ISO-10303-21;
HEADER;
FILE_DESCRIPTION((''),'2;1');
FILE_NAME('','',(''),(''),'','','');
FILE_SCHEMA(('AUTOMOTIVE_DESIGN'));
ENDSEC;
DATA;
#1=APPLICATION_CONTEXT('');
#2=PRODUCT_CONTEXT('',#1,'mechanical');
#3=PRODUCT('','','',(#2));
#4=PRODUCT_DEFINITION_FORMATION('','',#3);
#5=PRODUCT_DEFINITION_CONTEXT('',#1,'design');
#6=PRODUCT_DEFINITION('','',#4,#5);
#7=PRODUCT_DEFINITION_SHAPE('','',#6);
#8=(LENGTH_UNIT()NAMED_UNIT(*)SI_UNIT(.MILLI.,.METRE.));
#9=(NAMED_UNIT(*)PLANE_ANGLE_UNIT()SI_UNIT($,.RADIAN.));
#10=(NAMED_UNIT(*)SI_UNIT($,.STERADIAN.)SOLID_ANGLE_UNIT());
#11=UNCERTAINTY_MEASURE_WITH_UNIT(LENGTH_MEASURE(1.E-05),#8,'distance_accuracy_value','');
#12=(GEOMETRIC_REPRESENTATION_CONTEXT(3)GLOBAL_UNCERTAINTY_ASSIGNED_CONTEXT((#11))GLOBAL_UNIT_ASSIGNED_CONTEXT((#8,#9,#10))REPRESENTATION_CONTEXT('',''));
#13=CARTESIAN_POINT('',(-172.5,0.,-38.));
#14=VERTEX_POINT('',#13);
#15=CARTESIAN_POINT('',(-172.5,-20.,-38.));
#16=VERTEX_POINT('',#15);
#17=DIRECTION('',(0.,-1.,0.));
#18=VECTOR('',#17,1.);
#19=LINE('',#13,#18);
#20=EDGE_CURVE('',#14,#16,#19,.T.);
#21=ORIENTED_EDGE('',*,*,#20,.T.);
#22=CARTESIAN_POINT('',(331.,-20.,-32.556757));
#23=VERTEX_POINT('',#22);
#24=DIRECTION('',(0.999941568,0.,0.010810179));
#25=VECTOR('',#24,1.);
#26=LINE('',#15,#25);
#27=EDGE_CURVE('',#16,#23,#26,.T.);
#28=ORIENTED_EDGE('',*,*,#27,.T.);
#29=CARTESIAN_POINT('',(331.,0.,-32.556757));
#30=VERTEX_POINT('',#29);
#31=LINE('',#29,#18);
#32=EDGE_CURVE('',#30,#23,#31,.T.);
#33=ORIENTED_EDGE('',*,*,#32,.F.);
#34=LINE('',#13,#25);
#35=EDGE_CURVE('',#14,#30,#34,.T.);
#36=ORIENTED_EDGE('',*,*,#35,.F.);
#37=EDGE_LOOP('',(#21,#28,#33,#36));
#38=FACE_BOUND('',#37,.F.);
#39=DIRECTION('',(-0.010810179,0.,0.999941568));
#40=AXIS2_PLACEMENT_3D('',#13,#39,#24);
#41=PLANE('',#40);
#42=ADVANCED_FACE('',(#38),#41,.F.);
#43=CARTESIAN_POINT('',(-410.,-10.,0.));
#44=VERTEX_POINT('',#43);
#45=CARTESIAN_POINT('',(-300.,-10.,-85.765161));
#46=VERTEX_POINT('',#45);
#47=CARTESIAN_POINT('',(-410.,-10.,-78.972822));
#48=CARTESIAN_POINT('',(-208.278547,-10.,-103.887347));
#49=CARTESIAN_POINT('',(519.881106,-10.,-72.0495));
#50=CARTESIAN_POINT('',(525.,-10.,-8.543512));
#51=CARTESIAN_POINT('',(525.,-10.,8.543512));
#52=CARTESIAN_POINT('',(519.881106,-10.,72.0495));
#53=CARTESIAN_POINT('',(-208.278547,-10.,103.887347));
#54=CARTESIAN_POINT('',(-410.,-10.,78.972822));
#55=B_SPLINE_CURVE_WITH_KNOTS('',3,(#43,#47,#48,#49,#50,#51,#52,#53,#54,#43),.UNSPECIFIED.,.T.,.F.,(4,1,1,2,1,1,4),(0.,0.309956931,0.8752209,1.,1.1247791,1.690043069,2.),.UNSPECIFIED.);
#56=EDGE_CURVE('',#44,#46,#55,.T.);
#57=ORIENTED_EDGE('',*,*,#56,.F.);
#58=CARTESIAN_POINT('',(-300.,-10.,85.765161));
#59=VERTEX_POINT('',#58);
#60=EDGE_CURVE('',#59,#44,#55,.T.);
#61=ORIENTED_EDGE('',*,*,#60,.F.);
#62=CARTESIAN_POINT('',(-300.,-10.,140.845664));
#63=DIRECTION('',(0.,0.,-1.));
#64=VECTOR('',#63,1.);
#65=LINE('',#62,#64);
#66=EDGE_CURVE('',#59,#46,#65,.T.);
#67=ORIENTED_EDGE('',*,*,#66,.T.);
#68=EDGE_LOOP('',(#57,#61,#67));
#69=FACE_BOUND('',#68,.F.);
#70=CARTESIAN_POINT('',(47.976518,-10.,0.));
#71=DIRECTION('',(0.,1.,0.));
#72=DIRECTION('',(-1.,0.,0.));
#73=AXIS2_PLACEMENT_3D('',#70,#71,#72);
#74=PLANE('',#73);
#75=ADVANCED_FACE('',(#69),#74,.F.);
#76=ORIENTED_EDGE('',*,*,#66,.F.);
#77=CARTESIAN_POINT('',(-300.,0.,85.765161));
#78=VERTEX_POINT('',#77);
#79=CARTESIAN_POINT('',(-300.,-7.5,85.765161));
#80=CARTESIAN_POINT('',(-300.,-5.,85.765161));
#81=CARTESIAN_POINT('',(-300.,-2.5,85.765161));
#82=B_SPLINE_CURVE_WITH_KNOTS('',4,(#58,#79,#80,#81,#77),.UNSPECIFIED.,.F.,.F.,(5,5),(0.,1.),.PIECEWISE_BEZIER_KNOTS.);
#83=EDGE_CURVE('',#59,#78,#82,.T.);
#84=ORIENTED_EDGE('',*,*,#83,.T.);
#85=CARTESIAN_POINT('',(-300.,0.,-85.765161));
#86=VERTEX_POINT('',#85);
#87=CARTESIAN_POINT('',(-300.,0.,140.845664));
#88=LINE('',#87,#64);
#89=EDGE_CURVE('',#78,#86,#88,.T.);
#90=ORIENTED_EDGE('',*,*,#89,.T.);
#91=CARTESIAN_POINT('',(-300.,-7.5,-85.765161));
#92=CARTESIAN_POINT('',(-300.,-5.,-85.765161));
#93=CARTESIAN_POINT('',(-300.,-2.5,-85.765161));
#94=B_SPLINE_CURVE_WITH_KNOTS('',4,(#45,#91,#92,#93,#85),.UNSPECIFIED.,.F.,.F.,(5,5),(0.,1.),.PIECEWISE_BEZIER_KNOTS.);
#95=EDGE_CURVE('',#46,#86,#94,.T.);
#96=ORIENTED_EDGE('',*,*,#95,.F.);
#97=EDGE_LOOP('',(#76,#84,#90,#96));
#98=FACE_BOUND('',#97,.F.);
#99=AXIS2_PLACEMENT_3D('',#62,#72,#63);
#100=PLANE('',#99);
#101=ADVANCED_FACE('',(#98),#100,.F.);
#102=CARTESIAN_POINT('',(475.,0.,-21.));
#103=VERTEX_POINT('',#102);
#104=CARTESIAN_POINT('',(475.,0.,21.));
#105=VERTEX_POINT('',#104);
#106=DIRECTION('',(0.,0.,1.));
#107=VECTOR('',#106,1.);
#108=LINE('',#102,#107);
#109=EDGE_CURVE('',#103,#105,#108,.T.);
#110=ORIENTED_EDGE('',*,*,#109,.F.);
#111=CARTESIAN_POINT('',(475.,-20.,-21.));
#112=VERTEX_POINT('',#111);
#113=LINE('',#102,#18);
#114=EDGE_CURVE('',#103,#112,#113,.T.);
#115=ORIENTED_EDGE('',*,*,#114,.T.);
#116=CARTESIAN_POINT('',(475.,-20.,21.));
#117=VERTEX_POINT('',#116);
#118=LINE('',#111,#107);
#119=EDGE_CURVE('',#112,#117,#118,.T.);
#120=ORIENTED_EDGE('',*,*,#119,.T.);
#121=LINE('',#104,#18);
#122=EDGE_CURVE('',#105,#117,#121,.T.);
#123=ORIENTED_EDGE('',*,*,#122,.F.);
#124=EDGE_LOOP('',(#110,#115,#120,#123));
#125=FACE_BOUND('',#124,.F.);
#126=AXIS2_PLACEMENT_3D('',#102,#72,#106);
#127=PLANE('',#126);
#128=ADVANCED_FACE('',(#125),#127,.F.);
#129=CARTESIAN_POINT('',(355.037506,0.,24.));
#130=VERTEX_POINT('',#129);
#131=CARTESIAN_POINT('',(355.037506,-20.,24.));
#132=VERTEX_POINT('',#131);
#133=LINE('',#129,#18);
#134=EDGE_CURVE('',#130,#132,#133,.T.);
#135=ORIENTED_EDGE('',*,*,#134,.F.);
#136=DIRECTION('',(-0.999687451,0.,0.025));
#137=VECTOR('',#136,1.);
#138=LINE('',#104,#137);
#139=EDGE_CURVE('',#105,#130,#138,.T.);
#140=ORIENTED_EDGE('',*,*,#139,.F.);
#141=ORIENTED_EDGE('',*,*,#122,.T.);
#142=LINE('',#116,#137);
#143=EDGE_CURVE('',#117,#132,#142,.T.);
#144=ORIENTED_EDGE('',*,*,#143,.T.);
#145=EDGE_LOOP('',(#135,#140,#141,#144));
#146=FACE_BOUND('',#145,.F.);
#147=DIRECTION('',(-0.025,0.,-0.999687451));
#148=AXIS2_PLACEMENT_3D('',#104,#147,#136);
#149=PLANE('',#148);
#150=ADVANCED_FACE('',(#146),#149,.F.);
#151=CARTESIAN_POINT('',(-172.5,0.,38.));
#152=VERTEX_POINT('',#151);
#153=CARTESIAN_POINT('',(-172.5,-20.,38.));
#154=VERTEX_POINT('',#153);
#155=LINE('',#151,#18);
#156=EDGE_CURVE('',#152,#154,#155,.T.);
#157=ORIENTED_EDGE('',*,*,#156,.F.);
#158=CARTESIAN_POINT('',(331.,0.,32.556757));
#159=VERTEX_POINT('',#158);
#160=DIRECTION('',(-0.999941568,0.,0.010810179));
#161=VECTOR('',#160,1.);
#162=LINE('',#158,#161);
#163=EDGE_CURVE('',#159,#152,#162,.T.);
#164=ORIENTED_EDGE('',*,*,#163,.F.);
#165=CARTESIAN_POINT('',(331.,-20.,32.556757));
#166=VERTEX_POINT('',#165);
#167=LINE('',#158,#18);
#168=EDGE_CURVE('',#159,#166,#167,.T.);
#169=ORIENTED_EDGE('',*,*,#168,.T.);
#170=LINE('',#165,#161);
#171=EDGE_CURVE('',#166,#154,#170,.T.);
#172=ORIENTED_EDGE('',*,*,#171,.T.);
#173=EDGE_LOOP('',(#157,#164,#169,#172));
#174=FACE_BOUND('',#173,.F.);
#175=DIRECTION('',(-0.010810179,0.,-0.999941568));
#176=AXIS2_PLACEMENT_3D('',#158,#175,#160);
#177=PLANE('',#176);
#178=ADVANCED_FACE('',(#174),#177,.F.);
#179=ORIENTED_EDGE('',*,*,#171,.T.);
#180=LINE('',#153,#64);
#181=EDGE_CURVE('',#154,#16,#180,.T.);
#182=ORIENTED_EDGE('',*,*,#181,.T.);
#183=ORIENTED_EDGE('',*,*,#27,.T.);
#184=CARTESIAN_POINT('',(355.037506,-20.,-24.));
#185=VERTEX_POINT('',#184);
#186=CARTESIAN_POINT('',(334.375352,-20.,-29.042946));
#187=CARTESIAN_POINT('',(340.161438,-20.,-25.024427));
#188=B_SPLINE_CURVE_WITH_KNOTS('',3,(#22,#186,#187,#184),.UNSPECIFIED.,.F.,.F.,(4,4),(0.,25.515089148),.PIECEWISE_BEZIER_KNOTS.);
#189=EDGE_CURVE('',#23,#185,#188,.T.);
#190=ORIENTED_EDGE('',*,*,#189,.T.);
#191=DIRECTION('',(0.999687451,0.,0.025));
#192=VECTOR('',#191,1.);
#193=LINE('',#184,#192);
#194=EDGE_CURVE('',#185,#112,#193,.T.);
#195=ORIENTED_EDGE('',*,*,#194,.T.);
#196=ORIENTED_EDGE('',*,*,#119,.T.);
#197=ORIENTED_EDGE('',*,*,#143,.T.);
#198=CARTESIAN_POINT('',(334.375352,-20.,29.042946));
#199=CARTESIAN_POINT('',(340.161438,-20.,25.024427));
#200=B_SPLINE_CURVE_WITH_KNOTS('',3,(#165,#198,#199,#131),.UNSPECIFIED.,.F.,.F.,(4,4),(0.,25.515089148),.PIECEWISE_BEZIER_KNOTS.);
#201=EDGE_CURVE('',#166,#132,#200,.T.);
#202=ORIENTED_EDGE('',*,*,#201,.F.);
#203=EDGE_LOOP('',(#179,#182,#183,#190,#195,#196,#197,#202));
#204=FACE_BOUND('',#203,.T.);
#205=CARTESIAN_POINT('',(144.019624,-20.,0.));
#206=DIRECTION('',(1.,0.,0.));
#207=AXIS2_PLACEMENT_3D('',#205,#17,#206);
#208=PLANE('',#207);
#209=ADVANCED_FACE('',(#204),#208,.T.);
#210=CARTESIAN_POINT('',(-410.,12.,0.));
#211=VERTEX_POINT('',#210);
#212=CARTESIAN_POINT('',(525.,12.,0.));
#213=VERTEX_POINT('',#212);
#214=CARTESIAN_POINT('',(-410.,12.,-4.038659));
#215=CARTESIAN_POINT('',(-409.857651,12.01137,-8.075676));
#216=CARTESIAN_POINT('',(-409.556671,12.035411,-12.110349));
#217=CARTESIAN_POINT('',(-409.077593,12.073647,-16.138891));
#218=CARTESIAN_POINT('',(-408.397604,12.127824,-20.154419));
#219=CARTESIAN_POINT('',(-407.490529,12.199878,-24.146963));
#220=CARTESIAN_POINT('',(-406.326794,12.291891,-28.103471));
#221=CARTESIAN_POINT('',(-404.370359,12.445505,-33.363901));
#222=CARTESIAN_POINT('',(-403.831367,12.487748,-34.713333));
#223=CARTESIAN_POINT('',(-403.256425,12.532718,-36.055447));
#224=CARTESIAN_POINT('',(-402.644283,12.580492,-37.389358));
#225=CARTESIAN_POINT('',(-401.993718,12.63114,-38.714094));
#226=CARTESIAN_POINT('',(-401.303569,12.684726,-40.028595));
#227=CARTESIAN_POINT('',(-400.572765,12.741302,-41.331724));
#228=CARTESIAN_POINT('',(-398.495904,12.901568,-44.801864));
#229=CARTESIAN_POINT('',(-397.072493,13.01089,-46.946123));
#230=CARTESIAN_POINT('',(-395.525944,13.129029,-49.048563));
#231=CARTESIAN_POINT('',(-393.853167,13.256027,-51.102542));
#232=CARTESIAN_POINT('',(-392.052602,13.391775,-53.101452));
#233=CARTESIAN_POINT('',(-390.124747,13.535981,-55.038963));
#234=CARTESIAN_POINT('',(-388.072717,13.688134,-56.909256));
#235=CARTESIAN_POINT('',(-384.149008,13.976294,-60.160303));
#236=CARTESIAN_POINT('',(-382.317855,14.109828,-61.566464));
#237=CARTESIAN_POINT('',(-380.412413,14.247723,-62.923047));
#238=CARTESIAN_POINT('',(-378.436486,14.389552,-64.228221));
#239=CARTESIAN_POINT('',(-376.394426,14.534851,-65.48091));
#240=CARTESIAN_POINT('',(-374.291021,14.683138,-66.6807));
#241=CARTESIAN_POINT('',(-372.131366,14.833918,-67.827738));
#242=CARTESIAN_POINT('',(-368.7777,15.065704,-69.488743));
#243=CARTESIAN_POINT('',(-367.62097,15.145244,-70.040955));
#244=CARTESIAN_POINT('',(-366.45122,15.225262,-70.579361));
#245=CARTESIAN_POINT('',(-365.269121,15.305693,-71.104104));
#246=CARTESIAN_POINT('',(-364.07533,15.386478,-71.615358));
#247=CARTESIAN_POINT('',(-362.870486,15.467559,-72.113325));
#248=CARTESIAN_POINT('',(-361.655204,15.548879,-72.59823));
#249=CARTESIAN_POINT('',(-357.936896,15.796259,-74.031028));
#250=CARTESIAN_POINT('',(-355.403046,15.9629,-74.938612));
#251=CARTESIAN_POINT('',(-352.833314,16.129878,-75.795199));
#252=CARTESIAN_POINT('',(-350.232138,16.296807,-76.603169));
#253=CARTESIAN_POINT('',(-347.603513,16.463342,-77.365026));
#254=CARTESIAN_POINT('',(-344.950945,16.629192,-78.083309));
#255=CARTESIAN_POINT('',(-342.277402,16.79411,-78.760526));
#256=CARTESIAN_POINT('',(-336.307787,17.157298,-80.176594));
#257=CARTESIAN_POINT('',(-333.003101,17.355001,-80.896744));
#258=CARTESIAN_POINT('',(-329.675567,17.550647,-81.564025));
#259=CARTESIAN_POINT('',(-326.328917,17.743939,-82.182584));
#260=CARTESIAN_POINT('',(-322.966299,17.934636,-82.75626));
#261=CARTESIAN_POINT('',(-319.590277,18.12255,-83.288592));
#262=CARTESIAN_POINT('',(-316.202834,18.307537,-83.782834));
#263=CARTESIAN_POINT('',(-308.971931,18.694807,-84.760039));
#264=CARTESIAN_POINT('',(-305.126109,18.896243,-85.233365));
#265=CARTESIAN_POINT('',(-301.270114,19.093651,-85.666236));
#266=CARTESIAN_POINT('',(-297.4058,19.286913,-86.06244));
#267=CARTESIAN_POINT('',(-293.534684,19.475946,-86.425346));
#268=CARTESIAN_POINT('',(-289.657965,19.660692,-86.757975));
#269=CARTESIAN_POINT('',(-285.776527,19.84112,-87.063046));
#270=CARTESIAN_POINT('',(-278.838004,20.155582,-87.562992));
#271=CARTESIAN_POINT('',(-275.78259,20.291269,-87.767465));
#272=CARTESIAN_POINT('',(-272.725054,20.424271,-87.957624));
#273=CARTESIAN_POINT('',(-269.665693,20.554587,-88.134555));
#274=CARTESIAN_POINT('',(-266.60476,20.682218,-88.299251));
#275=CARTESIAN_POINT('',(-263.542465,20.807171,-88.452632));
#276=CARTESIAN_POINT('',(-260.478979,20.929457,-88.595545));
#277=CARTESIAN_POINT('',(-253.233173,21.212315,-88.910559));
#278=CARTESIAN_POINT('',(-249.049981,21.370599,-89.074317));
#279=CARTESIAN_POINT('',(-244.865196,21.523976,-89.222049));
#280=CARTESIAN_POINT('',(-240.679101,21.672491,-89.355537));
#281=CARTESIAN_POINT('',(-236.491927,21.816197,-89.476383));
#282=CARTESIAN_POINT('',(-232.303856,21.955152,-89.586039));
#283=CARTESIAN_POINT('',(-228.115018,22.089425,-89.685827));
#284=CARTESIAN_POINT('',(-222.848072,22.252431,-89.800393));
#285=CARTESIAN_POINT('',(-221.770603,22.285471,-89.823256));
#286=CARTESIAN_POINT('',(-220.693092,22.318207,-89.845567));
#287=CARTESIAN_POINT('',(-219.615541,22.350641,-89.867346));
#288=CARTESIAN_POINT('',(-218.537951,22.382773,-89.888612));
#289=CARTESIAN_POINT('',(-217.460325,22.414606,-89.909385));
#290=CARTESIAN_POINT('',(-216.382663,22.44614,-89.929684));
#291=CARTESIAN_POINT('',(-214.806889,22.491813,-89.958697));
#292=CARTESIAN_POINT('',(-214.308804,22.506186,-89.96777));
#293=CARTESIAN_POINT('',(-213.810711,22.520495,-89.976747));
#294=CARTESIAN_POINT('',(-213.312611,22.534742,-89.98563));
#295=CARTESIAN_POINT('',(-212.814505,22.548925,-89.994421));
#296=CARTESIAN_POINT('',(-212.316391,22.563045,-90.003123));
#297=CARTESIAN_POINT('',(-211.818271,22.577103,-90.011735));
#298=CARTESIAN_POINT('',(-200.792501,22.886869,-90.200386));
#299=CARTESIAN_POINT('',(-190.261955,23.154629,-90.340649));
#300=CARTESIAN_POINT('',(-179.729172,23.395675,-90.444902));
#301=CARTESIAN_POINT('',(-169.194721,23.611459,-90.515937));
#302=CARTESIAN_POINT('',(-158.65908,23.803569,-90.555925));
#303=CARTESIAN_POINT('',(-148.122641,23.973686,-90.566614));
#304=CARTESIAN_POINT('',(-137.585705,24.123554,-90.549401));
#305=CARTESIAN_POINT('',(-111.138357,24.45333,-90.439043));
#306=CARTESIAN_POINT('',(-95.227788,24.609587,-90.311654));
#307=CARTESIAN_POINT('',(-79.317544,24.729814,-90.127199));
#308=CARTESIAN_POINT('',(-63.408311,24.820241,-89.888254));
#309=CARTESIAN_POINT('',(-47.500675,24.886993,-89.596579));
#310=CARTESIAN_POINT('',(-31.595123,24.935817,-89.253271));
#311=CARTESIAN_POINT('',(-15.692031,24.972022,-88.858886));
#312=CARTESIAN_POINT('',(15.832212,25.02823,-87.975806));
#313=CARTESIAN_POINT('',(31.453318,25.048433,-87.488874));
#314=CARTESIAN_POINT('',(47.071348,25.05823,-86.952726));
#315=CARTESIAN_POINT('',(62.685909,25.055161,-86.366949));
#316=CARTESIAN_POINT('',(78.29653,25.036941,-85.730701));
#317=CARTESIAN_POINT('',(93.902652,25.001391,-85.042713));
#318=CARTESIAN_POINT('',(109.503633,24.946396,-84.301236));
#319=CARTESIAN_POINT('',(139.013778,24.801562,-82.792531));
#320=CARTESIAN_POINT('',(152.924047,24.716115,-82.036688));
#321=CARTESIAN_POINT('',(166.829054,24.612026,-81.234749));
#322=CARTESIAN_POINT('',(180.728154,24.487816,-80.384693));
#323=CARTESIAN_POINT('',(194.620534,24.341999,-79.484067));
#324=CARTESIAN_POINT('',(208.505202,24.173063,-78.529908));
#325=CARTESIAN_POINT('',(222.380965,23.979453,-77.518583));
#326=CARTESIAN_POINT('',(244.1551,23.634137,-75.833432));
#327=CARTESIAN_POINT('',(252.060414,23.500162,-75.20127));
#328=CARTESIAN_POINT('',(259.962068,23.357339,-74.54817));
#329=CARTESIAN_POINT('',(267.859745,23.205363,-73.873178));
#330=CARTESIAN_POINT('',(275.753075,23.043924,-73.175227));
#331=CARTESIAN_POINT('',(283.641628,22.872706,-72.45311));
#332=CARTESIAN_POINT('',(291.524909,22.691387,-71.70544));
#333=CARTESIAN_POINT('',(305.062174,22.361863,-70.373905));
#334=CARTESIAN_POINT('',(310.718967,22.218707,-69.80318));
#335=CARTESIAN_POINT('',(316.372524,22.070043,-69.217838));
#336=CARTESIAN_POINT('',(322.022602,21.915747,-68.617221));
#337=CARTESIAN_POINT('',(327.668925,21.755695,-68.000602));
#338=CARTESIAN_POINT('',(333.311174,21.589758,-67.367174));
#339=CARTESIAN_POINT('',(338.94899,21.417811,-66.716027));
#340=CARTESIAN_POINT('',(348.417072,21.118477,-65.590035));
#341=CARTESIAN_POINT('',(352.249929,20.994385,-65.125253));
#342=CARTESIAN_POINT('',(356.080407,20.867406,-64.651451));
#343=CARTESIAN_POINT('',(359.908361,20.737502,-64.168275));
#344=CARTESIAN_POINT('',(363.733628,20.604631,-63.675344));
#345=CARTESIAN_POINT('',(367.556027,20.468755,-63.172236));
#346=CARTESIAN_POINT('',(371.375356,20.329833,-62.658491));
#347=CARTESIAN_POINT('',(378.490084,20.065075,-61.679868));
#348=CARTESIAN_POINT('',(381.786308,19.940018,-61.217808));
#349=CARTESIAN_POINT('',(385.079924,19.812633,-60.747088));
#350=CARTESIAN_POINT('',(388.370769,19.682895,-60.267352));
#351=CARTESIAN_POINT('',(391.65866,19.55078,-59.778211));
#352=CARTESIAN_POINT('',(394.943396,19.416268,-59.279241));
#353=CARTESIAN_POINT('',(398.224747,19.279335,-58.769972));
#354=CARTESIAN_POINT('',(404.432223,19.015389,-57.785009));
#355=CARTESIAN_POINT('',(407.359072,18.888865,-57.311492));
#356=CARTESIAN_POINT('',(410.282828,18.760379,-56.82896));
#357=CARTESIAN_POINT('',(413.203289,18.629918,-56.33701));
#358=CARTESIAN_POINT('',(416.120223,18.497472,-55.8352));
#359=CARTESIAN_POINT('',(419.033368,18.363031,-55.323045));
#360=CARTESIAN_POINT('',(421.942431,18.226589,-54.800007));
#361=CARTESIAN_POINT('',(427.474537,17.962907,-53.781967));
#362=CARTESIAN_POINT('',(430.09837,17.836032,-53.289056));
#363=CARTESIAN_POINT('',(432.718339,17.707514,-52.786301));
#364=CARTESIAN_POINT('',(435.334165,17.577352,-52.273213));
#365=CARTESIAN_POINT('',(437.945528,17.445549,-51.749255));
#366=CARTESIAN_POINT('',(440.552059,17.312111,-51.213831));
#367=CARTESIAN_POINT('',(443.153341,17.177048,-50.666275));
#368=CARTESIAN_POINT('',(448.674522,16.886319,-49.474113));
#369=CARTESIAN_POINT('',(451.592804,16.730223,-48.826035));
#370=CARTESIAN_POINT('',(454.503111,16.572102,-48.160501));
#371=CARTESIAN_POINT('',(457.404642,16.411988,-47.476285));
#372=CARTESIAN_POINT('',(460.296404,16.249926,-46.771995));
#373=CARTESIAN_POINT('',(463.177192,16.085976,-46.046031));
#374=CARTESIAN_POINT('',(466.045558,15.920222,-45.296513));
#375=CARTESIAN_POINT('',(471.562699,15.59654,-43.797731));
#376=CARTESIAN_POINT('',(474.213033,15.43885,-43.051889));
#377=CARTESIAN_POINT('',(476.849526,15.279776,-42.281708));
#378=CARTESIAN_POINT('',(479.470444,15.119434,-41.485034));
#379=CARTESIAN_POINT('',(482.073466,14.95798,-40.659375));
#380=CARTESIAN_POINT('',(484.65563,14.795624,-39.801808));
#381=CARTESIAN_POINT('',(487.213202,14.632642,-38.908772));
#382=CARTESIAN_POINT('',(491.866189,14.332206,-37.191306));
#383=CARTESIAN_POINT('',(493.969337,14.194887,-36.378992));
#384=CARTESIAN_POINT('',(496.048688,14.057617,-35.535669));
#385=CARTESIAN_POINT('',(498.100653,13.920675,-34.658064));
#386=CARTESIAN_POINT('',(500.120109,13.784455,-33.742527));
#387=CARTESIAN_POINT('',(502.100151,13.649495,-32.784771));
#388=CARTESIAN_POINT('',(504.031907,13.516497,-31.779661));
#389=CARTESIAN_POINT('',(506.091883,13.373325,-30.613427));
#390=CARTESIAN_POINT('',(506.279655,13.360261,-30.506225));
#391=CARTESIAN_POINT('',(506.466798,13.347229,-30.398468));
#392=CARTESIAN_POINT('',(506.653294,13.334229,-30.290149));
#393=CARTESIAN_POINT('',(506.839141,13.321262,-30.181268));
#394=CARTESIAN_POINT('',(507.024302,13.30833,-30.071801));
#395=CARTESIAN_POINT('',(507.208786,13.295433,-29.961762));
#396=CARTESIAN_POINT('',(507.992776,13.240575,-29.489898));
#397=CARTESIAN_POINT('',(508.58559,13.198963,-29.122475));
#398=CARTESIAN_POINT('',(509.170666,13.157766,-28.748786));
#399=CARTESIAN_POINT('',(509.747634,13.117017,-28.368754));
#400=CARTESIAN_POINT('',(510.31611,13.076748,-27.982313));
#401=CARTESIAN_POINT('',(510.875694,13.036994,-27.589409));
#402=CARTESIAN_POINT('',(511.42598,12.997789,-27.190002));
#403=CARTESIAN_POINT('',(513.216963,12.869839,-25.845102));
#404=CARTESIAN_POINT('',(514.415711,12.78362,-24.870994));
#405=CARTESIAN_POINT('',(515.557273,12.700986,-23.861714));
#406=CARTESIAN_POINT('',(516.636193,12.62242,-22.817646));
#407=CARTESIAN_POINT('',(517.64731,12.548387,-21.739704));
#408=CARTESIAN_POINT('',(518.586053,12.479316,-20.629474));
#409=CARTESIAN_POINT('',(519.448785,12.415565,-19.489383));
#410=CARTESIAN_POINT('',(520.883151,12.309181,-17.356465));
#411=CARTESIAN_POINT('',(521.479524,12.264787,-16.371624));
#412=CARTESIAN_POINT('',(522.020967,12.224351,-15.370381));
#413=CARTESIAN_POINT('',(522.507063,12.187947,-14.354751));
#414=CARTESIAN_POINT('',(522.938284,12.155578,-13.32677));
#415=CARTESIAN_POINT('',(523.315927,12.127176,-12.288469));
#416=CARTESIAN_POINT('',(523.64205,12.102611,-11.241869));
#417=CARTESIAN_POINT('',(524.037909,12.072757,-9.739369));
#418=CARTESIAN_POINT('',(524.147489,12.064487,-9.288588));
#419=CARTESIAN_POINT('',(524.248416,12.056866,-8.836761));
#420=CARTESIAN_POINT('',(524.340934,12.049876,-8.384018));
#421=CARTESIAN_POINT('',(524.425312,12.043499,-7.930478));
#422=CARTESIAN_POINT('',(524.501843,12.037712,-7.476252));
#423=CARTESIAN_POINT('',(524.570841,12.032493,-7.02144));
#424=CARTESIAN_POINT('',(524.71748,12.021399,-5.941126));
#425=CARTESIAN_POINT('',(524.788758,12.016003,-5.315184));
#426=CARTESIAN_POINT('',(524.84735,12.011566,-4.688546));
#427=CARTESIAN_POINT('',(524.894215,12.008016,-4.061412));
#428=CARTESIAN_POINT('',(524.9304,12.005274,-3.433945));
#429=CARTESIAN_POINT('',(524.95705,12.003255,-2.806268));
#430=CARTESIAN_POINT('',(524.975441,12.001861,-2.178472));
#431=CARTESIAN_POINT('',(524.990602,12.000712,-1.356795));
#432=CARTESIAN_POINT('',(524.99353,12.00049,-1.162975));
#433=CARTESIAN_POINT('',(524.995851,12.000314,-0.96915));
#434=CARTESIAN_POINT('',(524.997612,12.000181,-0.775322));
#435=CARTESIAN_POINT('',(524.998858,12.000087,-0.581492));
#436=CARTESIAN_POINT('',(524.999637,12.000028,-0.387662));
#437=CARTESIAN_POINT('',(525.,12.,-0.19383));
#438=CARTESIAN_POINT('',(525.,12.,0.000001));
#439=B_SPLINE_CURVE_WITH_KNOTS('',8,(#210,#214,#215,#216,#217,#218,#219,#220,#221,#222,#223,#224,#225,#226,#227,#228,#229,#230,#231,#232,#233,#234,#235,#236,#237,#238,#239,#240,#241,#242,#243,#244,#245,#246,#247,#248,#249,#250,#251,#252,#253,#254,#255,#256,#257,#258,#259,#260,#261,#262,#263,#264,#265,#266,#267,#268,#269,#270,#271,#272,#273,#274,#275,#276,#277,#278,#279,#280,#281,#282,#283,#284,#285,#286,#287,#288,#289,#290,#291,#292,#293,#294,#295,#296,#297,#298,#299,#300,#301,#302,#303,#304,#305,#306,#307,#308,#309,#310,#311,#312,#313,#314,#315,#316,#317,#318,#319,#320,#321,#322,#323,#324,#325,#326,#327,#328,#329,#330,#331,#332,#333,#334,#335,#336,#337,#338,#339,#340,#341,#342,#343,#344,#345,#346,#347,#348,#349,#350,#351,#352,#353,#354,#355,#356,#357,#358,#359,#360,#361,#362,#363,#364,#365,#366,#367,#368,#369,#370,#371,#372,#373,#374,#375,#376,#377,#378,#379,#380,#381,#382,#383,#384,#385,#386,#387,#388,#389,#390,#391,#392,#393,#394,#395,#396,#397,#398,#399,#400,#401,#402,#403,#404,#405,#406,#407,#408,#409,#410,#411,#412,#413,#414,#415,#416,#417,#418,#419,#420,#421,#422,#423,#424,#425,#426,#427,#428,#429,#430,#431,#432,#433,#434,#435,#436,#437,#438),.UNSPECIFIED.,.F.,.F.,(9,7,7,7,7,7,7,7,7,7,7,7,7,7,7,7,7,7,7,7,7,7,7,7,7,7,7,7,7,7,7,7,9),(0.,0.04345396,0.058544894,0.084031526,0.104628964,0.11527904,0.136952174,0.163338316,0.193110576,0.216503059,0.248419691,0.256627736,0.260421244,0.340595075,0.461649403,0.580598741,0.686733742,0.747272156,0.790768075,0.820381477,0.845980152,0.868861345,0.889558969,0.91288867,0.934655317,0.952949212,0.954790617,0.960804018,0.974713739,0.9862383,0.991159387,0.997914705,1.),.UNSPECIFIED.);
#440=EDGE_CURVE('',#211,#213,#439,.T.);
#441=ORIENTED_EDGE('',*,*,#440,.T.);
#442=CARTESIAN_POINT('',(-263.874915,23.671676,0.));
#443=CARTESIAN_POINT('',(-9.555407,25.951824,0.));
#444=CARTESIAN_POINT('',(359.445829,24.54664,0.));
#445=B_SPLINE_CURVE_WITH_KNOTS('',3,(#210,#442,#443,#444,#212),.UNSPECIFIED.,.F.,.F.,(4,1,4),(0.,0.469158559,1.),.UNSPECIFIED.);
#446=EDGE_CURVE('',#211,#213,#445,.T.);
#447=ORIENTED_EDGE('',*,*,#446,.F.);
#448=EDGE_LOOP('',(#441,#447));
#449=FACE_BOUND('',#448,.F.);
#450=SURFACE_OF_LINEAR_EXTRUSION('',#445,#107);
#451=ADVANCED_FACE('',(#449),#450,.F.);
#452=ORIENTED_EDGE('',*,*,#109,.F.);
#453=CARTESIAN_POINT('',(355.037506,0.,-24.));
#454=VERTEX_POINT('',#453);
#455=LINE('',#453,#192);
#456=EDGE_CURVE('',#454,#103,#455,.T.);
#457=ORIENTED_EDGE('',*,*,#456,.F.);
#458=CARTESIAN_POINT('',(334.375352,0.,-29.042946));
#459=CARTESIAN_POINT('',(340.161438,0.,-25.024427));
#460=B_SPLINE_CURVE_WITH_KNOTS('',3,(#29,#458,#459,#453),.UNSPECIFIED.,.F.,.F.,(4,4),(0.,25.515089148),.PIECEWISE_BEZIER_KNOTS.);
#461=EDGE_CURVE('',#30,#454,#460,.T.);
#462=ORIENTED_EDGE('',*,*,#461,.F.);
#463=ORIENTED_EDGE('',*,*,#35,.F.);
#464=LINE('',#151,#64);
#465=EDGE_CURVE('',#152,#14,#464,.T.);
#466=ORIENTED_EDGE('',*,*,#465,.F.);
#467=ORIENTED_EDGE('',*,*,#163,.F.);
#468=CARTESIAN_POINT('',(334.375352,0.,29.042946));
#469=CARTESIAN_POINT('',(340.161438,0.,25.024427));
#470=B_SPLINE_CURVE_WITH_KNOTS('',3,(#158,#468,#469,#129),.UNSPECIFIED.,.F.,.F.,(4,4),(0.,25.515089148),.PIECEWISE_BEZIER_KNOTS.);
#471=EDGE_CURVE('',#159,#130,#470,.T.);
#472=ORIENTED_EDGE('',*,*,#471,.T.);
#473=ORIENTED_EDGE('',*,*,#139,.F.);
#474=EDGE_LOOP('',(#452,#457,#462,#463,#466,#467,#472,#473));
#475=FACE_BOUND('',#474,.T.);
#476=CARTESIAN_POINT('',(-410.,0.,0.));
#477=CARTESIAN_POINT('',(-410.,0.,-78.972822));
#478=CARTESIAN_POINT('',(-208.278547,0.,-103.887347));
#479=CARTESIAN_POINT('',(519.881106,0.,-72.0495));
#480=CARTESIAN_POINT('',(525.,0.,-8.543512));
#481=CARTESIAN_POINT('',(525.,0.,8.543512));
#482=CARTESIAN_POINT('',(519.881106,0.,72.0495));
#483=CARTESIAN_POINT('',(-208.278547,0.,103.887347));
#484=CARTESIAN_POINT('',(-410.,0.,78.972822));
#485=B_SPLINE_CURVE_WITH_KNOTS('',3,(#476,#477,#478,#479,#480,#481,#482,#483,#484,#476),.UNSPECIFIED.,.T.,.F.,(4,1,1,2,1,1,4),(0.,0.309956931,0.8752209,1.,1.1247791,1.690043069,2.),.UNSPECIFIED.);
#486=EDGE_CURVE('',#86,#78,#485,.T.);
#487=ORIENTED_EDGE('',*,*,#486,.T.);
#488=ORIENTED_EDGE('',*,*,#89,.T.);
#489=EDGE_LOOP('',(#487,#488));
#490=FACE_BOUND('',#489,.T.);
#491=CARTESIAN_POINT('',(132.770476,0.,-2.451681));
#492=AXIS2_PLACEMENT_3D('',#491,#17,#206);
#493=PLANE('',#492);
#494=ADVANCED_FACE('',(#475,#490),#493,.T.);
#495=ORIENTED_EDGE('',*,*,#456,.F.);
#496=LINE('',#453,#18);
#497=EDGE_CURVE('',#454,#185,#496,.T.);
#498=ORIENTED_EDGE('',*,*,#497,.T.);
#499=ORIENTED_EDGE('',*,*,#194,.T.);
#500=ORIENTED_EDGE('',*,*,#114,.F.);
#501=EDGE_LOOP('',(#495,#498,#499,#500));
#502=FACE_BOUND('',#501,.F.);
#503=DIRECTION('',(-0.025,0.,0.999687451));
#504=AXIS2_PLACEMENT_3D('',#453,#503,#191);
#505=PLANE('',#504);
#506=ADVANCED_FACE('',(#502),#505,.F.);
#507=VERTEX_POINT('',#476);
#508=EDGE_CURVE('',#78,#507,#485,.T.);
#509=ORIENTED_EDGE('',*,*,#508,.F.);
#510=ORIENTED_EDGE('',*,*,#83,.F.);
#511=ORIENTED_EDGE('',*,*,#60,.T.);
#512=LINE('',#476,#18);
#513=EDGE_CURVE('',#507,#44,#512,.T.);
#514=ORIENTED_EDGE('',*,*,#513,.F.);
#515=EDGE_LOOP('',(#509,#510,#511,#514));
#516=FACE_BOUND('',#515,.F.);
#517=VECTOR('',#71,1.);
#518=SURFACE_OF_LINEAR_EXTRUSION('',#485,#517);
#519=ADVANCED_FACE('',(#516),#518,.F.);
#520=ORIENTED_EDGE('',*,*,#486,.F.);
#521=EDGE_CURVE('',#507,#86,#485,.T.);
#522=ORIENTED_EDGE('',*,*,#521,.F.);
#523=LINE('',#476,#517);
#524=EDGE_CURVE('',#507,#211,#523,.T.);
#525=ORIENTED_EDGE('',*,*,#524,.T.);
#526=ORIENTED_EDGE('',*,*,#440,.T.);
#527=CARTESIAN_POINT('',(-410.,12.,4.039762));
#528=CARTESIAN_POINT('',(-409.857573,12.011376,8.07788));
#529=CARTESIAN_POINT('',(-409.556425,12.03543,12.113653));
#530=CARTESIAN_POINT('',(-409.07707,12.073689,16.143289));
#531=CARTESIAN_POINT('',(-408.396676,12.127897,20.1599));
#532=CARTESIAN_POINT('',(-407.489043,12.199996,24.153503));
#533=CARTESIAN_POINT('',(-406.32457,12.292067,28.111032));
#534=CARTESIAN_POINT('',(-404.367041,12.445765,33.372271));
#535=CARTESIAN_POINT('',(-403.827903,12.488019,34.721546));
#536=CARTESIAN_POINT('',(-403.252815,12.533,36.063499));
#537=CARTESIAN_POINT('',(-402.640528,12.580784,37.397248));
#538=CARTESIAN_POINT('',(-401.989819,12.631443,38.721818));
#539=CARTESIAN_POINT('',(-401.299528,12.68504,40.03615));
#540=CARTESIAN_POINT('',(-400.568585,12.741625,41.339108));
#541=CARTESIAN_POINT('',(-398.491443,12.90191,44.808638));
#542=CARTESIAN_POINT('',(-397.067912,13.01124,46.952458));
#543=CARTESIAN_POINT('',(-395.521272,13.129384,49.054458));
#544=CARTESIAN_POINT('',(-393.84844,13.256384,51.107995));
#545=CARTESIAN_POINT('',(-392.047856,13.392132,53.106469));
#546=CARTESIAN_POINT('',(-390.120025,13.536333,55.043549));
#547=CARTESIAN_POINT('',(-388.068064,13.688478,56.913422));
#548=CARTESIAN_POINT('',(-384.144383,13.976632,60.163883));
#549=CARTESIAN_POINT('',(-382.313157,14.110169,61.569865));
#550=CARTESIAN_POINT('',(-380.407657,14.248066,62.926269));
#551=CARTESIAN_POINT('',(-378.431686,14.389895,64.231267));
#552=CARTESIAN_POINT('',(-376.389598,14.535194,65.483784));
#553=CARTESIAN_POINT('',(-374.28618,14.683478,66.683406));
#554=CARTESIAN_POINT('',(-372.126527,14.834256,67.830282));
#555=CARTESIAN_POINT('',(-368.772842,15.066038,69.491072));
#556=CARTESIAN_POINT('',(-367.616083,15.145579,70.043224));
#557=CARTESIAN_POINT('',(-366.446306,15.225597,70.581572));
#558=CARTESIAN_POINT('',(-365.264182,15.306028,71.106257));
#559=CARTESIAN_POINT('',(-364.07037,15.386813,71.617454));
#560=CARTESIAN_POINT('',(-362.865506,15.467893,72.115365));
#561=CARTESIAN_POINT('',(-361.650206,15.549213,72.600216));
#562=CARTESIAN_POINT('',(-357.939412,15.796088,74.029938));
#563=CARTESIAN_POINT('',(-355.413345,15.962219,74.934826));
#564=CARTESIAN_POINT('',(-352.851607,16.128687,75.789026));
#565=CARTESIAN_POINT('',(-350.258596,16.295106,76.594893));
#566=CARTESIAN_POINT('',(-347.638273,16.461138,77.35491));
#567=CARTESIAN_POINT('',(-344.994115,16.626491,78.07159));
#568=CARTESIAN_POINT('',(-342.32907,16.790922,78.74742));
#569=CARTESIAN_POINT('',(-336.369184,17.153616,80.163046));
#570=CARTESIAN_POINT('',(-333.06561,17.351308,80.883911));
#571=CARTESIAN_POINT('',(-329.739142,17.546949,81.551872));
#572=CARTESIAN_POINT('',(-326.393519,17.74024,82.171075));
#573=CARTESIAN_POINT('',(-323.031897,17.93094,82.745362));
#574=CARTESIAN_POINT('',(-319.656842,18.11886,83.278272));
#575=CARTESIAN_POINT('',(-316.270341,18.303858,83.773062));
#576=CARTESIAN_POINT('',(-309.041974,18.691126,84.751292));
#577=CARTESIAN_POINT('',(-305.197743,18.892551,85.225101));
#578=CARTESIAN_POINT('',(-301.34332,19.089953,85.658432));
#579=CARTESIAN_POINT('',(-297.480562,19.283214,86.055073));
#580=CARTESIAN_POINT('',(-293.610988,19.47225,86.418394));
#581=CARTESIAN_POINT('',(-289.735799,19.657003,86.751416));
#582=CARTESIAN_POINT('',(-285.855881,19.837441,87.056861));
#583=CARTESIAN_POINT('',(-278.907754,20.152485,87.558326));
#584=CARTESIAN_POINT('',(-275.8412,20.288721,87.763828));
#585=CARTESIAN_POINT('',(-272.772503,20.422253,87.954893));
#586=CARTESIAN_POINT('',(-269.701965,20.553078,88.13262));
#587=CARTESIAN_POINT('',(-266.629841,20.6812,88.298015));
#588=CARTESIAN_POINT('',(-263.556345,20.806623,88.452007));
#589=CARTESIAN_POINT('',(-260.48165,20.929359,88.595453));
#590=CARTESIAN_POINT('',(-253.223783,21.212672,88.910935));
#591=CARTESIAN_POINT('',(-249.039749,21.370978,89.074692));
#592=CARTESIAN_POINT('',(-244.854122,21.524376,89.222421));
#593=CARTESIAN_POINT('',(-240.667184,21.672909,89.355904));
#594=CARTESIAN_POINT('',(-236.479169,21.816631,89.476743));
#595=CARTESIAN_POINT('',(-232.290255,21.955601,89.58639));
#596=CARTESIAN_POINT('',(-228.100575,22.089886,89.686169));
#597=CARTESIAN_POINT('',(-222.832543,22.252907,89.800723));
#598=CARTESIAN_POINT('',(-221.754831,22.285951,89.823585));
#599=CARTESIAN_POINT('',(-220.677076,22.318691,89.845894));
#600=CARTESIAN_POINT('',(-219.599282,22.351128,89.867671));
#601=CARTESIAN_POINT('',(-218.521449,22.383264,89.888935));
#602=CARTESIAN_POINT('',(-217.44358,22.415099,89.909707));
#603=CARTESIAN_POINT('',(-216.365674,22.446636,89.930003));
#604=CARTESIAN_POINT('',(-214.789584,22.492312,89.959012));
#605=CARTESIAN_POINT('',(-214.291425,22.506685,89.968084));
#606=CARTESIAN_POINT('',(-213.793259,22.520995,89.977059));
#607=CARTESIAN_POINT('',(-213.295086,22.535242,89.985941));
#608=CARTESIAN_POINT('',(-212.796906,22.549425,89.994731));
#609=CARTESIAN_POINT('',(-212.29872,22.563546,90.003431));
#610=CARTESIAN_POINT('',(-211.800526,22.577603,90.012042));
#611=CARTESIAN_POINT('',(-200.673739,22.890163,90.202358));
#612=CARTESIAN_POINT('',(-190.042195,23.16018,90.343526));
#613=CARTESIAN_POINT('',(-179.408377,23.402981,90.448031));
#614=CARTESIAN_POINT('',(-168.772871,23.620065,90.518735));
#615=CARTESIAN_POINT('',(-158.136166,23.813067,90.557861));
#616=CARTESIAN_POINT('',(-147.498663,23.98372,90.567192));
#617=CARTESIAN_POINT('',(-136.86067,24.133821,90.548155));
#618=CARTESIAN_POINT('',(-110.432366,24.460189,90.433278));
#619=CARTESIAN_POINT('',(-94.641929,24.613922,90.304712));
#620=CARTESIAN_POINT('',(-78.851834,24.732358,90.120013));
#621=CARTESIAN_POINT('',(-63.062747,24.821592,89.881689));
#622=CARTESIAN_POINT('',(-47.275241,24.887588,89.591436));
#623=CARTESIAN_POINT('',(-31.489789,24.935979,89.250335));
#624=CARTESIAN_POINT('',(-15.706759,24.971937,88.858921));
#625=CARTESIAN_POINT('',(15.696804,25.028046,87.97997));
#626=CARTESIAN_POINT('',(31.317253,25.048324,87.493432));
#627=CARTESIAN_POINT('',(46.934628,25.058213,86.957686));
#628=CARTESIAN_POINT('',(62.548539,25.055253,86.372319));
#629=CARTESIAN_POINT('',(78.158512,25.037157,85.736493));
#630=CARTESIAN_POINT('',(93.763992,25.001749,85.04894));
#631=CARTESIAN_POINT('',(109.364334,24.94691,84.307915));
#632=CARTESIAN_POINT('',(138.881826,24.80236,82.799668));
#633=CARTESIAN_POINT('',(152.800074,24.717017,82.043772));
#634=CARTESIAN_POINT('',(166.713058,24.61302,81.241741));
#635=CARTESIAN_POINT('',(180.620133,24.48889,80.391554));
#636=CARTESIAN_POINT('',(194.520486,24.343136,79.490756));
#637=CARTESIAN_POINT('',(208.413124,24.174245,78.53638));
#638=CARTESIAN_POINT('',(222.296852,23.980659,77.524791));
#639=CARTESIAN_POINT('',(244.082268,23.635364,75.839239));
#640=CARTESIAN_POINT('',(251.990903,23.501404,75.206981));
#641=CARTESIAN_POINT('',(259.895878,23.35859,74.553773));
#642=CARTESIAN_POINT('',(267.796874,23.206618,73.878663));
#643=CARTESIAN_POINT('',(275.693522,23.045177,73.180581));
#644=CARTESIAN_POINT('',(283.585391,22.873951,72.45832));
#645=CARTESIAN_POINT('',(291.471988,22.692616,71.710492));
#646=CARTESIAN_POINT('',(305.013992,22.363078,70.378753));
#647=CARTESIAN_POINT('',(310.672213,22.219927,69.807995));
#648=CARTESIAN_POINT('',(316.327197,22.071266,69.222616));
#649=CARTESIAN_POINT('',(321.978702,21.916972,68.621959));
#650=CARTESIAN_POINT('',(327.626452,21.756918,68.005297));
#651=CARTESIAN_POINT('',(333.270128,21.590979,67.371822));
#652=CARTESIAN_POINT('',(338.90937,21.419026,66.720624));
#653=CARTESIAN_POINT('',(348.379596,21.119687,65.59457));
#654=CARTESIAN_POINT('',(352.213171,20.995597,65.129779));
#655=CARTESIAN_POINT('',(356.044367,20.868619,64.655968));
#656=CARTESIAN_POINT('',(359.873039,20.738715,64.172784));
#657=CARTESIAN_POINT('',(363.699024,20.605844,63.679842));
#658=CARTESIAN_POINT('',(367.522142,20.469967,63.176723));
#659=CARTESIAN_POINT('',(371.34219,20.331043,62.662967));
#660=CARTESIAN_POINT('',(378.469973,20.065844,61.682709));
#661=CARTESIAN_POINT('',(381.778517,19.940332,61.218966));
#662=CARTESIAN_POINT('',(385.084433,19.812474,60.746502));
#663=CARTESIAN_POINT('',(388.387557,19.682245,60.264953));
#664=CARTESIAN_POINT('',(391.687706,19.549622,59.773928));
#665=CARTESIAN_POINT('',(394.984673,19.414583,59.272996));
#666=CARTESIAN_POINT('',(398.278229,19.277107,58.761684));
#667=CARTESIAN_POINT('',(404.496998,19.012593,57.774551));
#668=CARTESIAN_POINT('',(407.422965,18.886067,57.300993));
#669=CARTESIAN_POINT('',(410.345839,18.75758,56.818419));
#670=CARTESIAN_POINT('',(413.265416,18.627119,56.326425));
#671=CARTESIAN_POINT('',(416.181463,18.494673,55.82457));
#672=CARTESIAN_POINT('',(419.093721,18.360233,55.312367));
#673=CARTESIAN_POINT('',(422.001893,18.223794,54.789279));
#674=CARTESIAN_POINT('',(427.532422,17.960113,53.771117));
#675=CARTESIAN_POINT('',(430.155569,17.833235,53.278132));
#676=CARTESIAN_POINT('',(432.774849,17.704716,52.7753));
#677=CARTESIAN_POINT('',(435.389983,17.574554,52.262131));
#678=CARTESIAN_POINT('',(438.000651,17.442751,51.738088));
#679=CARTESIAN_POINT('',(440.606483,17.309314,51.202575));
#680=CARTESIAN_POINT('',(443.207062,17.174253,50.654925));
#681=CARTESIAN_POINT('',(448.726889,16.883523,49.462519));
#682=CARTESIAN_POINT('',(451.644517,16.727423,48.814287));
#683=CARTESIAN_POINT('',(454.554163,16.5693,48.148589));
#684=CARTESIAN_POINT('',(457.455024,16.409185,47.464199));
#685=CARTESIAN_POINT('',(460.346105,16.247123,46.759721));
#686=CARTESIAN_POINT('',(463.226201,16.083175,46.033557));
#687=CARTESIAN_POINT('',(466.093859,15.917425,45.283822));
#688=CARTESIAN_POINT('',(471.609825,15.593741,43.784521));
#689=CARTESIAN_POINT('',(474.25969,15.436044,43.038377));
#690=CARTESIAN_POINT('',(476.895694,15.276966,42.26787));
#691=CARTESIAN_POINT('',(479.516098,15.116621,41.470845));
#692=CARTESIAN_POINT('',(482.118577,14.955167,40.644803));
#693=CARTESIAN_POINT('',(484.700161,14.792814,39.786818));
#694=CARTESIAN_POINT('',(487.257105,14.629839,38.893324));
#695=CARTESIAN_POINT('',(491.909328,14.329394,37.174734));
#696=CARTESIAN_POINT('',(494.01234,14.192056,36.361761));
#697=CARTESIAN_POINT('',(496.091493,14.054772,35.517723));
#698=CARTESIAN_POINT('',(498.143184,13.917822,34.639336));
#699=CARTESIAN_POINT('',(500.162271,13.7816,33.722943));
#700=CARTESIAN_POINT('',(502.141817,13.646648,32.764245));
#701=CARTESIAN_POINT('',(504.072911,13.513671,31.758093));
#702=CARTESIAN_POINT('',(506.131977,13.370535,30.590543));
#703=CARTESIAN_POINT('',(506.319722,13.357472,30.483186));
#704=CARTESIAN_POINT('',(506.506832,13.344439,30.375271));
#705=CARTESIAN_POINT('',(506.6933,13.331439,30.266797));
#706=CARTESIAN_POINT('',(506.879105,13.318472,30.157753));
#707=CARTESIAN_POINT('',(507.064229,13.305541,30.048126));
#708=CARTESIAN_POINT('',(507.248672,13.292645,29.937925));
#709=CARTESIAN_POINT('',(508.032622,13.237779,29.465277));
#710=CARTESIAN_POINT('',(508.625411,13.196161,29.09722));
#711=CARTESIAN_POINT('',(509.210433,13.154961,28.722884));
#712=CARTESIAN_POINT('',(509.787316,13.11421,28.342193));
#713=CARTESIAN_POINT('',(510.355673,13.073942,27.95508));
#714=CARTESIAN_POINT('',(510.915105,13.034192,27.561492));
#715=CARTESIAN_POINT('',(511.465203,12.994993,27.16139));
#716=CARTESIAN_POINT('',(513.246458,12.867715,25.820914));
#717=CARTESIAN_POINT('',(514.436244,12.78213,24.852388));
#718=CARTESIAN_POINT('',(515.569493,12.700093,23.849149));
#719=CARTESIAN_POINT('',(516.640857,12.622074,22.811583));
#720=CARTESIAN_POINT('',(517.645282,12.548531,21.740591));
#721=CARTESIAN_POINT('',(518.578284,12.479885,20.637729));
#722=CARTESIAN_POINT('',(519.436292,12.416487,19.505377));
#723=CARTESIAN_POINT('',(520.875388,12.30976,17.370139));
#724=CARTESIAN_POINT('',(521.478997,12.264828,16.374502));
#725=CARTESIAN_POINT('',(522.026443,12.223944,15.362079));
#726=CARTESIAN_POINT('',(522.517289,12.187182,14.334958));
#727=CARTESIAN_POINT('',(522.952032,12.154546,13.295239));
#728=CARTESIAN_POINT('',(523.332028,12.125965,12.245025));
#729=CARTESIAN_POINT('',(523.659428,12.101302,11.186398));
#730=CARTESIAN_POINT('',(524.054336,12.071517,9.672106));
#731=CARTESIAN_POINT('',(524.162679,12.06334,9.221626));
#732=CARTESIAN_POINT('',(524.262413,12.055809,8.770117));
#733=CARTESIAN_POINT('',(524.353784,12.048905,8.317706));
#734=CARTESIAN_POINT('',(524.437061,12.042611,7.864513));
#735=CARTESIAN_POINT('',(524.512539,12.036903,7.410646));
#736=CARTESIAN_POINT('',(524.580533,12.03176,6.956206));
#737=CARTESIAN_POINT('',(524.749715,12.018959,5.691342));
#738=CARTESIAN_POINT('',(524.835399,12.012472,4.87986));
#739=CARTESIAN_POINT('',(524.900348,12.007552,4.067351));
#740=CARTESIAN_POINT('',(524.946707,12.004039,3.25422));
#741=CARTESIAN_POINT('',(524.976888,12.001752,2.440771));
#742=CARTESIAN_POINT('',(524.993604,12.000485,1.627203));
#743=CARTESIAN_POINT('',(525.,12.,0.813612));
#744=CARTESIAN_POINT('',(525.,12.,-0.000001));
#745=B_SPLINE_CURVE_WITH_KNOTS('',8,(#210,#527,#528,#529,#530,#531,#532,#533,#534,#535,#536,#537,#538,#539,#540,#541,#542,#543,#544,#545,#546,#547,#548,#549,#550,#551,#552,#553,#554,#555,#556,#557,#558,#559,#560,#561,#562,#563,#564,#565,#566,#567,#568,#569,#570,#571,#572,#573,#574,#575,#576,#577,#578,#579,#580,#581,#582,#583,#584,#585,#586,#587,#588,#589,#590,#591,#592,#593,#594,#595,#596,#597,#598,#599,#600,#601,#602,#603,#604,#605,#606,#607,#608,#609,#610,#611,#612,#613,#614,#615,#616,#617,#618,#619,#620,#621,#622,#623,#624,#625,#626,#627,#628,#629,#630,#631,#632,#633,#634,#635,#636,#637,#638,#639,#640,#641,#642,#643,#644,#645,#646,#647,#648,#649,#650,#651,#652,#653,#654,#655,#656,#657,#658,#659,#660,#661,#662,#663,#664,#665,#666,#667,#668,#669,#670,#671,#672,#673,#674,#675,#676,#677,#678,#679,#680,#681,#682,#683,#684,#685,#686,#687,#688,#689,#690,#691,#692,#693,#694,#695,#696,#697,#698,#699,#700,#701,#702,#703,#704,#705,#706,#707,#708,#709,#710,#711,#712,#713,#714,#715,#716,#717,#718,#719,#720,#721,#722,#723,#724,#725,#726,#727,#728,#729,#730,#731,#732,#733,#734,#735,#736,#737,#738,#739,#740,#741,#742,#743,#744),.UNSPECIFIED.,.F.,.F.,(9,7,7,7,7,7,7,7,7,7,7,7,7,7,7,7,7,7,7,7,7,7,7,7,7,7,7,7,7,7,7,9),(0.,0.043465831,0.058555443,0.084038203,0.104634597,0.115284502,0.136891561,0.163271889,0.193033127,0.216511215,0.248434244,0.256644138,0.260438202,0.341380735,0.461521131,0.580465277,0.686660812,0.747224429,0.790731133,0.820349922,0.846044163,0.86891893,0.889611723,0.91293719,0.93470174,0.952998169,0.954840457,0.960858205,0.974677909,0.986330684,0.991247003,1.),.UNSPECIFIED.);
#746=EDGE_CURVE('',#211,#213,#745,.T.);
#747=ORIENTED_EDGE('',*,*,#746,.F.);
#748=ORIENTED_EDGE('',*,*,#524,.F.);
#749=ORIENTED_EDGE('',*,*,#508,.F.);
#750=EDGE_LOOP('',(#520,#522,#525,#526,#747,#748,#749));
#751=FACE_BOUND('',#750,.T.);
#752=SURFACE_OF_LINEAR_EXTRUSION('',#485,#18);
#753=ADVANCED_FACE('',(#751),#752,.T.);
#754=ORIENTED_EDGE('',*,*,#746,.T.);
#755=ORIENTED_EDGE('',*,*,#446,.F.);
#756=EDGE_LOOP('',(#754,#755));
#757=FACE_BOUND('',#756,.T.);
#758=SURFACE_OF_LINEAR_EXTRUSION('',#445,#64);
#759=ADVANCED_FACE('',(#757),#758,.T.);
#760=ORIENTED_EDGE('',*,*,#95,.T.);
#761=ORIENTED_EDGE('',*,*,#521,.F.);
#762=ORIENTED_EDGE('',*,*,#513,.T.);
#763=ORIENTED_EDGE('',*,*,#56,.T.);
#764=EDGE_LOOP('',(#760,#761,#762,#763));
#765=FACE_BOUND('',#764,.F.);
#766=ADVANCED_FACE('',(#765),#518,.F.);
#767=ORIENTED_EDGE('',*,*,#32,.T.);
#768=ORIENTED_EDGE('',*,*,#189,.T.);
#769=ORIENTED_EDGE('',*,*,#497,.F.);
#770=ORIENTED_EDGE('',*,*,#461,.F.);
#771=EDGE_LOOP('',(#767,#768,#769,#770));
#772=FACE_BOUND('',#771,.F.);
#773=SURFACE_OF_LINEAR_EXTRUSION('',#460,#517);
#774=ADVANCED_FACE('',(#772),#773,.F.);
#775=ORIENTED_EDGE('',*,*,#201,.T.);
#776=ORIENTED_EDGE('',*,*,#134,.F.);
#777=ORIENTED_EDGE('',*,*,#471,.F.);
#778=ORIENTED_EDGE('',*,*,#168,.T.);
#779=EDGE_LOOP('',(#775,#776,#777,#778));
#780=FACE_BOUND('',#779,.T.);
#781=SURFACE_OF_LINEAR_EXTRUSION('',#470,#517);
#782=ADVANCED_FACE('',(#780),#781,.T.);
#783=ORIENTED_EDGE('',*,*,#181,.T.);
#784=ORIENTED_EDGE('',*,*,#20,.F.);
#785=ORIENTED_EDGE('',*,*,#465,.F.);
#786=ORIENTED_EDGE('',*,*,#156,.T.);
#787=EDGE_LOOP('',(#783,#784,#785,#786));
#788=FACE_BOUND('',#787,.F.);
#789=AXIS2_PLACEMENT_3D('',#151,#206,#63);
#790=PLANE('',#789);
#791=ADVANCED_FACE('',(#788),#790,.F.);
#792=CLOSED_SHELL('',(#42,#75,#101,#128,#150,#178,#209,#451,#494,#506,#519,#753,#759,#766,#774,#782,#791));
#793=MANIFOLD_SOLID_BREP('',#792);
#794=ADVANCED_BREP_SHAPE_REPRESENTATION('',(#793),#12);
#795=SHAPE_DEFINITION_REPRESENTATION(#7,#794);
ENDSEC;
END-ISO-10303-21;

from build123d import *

# Parameters (mm, degrees)
F1_DEPTH = 30
F3_DEPTH = 500
F4_DEPTH = 10
F6_DEPTH = 10
F8_DEPTH = 20


with BuildPart() as f1:
    # F0 (on Front) → F1 (new body)
    with BuildSketch(Plane.XZ):
        with BuildLine():
            add(Edge.make_bspline(
                [(-410, 0), (-410, 78.9728224141), (-208.2785468634, 103.8873472484), (519.8811059336, 72.0494995737), (525, 8.5435118526), (525, 0)],
                knots=[0, 0, 0, 0, 0.3099569307, 0.8752208997, 1, 1, 1, 1], degree=3))
            add(Edge.make_bspline(
                [(-410, 0), (-410, -78.9728224141), (-208.2785468634, -103.8873472484), (519.8811059336, -72.0494995737), (525, -8.5435118526), (525, 0)],
                knots=[0, 0, 0, 0, 0.3099569307, 0.8752208997, 1, 1, 1, 1], degree=3))
        make_face()
    extrude(amount=-F1_DEPTH)

    # F2 (on Top) → F3 (cut, symmetric)
    with BuildSketch(Plane.XY):
        with BuildLine():
            Line((-410, 37), (-410, 12))
            add(Edge.make_bspline(
                [(-410, 12), (-263.8749145203, 23.6716755717), (-9.5554071198, 25.9518235524), (359.4458289348, 24.5466398239), (525, 12)],
                knots=[0, 0, 0, 0, 0.4691585594, 1, 1, 1, 1], degree=3))
            Line((525, 12), (545, 12))
            Line((545, 12), (545, 37))
            Line((545, 37), (-410, 37))
        make_face()
    extrude(amount=F3_DEPTH, both=True, mode=Mode.SUBTRACT)

    # F0 (on Front) → F4 (join)
    with BuildSketch(Plane.XZ):
        with BuildLine():
            add(Edge.make_bspline(
                [(-410, 0), (-410, 78.9728224141), (-208.2785468634, 103.8873472484), (519.8811059336, 72.0494995737), (525, 8.5435118526), (525, 0)],
                knots=[0, 0, 0, 0, 0.3099569307, 0.8752208997, 1, 1, 1, 1], degree=3))
            add(Edge.make_bspline(
                [(-410, 0), (-410, -78.9728224141), (-208.2785468634, -103.8873472484), (519.8811059336, -72.0494995737), (525, -8.5435118526), (525, 0)],
                knots=[0, 0, 0, 0, 0.3099569307, 0.8752208997, 1, 1, 1, 1], degree=3))
        make_face()
    extrude(amount=F4_DEPTH)

    # F5 (on face) → F6 (cut)
    with BuildSketch(Plane.XZ.offset(10)):
        Polygon((-300, 140.8456638455), (-300, 85.7651611453), (-300, -85.7651611453), (-300, -122.7003704771), (-300, -145.7490250468), (565.5409514904, -145.7490250468), (565.5409514904, 140.8456638455), align=None)
    extrude(amount=-F6_DEPTH, mode=Mode.SUBTRACT)

    # F7 (on face) → F8 (join)
    with BuildSketch(Plane.XZ):
        with BuildLine():
            Line((-172.5, 38), (-172.5, 0))
            Line((-172.5, 0), (-172.5, -38))
            Line((-172.5, -38), (331, -32.5567567568))
            add(Edge.make_bspline(
                [(331, -32.5567567568), (334.3753516674, -29.0429461747), (340.1614382228, -25.0244268924), (355.0375058612, -24)],
                knots=[0, 0, 0, 0, 25.5150891478, 25.5150891478, 25.5150891478, 25.5150891478], degree=3))
            Line((355.0375058612, -24), (475, -21))
            Line((475, -21), (475, 0))
            Line((475, 0), (475, 21))
            Line((475, 21), (355.0375058612, 24))
            add(Edge.make_bspline(
                [(331, 32.5567567568), (334.3753516674, 29.0429461747), (340.1614382228, 25.0244268924), (355.0375058612, 24)],
                knots=[0, 0, 0, 0, 25.5150891478, 25.5150891478, 25.5150891478, 25.5150891478], degree=3))
            Line((331, 32.5567567568), (-172.5, 38))
        make_face()
    extrude(amount=F8_DEPTH)


solid = f1.part
